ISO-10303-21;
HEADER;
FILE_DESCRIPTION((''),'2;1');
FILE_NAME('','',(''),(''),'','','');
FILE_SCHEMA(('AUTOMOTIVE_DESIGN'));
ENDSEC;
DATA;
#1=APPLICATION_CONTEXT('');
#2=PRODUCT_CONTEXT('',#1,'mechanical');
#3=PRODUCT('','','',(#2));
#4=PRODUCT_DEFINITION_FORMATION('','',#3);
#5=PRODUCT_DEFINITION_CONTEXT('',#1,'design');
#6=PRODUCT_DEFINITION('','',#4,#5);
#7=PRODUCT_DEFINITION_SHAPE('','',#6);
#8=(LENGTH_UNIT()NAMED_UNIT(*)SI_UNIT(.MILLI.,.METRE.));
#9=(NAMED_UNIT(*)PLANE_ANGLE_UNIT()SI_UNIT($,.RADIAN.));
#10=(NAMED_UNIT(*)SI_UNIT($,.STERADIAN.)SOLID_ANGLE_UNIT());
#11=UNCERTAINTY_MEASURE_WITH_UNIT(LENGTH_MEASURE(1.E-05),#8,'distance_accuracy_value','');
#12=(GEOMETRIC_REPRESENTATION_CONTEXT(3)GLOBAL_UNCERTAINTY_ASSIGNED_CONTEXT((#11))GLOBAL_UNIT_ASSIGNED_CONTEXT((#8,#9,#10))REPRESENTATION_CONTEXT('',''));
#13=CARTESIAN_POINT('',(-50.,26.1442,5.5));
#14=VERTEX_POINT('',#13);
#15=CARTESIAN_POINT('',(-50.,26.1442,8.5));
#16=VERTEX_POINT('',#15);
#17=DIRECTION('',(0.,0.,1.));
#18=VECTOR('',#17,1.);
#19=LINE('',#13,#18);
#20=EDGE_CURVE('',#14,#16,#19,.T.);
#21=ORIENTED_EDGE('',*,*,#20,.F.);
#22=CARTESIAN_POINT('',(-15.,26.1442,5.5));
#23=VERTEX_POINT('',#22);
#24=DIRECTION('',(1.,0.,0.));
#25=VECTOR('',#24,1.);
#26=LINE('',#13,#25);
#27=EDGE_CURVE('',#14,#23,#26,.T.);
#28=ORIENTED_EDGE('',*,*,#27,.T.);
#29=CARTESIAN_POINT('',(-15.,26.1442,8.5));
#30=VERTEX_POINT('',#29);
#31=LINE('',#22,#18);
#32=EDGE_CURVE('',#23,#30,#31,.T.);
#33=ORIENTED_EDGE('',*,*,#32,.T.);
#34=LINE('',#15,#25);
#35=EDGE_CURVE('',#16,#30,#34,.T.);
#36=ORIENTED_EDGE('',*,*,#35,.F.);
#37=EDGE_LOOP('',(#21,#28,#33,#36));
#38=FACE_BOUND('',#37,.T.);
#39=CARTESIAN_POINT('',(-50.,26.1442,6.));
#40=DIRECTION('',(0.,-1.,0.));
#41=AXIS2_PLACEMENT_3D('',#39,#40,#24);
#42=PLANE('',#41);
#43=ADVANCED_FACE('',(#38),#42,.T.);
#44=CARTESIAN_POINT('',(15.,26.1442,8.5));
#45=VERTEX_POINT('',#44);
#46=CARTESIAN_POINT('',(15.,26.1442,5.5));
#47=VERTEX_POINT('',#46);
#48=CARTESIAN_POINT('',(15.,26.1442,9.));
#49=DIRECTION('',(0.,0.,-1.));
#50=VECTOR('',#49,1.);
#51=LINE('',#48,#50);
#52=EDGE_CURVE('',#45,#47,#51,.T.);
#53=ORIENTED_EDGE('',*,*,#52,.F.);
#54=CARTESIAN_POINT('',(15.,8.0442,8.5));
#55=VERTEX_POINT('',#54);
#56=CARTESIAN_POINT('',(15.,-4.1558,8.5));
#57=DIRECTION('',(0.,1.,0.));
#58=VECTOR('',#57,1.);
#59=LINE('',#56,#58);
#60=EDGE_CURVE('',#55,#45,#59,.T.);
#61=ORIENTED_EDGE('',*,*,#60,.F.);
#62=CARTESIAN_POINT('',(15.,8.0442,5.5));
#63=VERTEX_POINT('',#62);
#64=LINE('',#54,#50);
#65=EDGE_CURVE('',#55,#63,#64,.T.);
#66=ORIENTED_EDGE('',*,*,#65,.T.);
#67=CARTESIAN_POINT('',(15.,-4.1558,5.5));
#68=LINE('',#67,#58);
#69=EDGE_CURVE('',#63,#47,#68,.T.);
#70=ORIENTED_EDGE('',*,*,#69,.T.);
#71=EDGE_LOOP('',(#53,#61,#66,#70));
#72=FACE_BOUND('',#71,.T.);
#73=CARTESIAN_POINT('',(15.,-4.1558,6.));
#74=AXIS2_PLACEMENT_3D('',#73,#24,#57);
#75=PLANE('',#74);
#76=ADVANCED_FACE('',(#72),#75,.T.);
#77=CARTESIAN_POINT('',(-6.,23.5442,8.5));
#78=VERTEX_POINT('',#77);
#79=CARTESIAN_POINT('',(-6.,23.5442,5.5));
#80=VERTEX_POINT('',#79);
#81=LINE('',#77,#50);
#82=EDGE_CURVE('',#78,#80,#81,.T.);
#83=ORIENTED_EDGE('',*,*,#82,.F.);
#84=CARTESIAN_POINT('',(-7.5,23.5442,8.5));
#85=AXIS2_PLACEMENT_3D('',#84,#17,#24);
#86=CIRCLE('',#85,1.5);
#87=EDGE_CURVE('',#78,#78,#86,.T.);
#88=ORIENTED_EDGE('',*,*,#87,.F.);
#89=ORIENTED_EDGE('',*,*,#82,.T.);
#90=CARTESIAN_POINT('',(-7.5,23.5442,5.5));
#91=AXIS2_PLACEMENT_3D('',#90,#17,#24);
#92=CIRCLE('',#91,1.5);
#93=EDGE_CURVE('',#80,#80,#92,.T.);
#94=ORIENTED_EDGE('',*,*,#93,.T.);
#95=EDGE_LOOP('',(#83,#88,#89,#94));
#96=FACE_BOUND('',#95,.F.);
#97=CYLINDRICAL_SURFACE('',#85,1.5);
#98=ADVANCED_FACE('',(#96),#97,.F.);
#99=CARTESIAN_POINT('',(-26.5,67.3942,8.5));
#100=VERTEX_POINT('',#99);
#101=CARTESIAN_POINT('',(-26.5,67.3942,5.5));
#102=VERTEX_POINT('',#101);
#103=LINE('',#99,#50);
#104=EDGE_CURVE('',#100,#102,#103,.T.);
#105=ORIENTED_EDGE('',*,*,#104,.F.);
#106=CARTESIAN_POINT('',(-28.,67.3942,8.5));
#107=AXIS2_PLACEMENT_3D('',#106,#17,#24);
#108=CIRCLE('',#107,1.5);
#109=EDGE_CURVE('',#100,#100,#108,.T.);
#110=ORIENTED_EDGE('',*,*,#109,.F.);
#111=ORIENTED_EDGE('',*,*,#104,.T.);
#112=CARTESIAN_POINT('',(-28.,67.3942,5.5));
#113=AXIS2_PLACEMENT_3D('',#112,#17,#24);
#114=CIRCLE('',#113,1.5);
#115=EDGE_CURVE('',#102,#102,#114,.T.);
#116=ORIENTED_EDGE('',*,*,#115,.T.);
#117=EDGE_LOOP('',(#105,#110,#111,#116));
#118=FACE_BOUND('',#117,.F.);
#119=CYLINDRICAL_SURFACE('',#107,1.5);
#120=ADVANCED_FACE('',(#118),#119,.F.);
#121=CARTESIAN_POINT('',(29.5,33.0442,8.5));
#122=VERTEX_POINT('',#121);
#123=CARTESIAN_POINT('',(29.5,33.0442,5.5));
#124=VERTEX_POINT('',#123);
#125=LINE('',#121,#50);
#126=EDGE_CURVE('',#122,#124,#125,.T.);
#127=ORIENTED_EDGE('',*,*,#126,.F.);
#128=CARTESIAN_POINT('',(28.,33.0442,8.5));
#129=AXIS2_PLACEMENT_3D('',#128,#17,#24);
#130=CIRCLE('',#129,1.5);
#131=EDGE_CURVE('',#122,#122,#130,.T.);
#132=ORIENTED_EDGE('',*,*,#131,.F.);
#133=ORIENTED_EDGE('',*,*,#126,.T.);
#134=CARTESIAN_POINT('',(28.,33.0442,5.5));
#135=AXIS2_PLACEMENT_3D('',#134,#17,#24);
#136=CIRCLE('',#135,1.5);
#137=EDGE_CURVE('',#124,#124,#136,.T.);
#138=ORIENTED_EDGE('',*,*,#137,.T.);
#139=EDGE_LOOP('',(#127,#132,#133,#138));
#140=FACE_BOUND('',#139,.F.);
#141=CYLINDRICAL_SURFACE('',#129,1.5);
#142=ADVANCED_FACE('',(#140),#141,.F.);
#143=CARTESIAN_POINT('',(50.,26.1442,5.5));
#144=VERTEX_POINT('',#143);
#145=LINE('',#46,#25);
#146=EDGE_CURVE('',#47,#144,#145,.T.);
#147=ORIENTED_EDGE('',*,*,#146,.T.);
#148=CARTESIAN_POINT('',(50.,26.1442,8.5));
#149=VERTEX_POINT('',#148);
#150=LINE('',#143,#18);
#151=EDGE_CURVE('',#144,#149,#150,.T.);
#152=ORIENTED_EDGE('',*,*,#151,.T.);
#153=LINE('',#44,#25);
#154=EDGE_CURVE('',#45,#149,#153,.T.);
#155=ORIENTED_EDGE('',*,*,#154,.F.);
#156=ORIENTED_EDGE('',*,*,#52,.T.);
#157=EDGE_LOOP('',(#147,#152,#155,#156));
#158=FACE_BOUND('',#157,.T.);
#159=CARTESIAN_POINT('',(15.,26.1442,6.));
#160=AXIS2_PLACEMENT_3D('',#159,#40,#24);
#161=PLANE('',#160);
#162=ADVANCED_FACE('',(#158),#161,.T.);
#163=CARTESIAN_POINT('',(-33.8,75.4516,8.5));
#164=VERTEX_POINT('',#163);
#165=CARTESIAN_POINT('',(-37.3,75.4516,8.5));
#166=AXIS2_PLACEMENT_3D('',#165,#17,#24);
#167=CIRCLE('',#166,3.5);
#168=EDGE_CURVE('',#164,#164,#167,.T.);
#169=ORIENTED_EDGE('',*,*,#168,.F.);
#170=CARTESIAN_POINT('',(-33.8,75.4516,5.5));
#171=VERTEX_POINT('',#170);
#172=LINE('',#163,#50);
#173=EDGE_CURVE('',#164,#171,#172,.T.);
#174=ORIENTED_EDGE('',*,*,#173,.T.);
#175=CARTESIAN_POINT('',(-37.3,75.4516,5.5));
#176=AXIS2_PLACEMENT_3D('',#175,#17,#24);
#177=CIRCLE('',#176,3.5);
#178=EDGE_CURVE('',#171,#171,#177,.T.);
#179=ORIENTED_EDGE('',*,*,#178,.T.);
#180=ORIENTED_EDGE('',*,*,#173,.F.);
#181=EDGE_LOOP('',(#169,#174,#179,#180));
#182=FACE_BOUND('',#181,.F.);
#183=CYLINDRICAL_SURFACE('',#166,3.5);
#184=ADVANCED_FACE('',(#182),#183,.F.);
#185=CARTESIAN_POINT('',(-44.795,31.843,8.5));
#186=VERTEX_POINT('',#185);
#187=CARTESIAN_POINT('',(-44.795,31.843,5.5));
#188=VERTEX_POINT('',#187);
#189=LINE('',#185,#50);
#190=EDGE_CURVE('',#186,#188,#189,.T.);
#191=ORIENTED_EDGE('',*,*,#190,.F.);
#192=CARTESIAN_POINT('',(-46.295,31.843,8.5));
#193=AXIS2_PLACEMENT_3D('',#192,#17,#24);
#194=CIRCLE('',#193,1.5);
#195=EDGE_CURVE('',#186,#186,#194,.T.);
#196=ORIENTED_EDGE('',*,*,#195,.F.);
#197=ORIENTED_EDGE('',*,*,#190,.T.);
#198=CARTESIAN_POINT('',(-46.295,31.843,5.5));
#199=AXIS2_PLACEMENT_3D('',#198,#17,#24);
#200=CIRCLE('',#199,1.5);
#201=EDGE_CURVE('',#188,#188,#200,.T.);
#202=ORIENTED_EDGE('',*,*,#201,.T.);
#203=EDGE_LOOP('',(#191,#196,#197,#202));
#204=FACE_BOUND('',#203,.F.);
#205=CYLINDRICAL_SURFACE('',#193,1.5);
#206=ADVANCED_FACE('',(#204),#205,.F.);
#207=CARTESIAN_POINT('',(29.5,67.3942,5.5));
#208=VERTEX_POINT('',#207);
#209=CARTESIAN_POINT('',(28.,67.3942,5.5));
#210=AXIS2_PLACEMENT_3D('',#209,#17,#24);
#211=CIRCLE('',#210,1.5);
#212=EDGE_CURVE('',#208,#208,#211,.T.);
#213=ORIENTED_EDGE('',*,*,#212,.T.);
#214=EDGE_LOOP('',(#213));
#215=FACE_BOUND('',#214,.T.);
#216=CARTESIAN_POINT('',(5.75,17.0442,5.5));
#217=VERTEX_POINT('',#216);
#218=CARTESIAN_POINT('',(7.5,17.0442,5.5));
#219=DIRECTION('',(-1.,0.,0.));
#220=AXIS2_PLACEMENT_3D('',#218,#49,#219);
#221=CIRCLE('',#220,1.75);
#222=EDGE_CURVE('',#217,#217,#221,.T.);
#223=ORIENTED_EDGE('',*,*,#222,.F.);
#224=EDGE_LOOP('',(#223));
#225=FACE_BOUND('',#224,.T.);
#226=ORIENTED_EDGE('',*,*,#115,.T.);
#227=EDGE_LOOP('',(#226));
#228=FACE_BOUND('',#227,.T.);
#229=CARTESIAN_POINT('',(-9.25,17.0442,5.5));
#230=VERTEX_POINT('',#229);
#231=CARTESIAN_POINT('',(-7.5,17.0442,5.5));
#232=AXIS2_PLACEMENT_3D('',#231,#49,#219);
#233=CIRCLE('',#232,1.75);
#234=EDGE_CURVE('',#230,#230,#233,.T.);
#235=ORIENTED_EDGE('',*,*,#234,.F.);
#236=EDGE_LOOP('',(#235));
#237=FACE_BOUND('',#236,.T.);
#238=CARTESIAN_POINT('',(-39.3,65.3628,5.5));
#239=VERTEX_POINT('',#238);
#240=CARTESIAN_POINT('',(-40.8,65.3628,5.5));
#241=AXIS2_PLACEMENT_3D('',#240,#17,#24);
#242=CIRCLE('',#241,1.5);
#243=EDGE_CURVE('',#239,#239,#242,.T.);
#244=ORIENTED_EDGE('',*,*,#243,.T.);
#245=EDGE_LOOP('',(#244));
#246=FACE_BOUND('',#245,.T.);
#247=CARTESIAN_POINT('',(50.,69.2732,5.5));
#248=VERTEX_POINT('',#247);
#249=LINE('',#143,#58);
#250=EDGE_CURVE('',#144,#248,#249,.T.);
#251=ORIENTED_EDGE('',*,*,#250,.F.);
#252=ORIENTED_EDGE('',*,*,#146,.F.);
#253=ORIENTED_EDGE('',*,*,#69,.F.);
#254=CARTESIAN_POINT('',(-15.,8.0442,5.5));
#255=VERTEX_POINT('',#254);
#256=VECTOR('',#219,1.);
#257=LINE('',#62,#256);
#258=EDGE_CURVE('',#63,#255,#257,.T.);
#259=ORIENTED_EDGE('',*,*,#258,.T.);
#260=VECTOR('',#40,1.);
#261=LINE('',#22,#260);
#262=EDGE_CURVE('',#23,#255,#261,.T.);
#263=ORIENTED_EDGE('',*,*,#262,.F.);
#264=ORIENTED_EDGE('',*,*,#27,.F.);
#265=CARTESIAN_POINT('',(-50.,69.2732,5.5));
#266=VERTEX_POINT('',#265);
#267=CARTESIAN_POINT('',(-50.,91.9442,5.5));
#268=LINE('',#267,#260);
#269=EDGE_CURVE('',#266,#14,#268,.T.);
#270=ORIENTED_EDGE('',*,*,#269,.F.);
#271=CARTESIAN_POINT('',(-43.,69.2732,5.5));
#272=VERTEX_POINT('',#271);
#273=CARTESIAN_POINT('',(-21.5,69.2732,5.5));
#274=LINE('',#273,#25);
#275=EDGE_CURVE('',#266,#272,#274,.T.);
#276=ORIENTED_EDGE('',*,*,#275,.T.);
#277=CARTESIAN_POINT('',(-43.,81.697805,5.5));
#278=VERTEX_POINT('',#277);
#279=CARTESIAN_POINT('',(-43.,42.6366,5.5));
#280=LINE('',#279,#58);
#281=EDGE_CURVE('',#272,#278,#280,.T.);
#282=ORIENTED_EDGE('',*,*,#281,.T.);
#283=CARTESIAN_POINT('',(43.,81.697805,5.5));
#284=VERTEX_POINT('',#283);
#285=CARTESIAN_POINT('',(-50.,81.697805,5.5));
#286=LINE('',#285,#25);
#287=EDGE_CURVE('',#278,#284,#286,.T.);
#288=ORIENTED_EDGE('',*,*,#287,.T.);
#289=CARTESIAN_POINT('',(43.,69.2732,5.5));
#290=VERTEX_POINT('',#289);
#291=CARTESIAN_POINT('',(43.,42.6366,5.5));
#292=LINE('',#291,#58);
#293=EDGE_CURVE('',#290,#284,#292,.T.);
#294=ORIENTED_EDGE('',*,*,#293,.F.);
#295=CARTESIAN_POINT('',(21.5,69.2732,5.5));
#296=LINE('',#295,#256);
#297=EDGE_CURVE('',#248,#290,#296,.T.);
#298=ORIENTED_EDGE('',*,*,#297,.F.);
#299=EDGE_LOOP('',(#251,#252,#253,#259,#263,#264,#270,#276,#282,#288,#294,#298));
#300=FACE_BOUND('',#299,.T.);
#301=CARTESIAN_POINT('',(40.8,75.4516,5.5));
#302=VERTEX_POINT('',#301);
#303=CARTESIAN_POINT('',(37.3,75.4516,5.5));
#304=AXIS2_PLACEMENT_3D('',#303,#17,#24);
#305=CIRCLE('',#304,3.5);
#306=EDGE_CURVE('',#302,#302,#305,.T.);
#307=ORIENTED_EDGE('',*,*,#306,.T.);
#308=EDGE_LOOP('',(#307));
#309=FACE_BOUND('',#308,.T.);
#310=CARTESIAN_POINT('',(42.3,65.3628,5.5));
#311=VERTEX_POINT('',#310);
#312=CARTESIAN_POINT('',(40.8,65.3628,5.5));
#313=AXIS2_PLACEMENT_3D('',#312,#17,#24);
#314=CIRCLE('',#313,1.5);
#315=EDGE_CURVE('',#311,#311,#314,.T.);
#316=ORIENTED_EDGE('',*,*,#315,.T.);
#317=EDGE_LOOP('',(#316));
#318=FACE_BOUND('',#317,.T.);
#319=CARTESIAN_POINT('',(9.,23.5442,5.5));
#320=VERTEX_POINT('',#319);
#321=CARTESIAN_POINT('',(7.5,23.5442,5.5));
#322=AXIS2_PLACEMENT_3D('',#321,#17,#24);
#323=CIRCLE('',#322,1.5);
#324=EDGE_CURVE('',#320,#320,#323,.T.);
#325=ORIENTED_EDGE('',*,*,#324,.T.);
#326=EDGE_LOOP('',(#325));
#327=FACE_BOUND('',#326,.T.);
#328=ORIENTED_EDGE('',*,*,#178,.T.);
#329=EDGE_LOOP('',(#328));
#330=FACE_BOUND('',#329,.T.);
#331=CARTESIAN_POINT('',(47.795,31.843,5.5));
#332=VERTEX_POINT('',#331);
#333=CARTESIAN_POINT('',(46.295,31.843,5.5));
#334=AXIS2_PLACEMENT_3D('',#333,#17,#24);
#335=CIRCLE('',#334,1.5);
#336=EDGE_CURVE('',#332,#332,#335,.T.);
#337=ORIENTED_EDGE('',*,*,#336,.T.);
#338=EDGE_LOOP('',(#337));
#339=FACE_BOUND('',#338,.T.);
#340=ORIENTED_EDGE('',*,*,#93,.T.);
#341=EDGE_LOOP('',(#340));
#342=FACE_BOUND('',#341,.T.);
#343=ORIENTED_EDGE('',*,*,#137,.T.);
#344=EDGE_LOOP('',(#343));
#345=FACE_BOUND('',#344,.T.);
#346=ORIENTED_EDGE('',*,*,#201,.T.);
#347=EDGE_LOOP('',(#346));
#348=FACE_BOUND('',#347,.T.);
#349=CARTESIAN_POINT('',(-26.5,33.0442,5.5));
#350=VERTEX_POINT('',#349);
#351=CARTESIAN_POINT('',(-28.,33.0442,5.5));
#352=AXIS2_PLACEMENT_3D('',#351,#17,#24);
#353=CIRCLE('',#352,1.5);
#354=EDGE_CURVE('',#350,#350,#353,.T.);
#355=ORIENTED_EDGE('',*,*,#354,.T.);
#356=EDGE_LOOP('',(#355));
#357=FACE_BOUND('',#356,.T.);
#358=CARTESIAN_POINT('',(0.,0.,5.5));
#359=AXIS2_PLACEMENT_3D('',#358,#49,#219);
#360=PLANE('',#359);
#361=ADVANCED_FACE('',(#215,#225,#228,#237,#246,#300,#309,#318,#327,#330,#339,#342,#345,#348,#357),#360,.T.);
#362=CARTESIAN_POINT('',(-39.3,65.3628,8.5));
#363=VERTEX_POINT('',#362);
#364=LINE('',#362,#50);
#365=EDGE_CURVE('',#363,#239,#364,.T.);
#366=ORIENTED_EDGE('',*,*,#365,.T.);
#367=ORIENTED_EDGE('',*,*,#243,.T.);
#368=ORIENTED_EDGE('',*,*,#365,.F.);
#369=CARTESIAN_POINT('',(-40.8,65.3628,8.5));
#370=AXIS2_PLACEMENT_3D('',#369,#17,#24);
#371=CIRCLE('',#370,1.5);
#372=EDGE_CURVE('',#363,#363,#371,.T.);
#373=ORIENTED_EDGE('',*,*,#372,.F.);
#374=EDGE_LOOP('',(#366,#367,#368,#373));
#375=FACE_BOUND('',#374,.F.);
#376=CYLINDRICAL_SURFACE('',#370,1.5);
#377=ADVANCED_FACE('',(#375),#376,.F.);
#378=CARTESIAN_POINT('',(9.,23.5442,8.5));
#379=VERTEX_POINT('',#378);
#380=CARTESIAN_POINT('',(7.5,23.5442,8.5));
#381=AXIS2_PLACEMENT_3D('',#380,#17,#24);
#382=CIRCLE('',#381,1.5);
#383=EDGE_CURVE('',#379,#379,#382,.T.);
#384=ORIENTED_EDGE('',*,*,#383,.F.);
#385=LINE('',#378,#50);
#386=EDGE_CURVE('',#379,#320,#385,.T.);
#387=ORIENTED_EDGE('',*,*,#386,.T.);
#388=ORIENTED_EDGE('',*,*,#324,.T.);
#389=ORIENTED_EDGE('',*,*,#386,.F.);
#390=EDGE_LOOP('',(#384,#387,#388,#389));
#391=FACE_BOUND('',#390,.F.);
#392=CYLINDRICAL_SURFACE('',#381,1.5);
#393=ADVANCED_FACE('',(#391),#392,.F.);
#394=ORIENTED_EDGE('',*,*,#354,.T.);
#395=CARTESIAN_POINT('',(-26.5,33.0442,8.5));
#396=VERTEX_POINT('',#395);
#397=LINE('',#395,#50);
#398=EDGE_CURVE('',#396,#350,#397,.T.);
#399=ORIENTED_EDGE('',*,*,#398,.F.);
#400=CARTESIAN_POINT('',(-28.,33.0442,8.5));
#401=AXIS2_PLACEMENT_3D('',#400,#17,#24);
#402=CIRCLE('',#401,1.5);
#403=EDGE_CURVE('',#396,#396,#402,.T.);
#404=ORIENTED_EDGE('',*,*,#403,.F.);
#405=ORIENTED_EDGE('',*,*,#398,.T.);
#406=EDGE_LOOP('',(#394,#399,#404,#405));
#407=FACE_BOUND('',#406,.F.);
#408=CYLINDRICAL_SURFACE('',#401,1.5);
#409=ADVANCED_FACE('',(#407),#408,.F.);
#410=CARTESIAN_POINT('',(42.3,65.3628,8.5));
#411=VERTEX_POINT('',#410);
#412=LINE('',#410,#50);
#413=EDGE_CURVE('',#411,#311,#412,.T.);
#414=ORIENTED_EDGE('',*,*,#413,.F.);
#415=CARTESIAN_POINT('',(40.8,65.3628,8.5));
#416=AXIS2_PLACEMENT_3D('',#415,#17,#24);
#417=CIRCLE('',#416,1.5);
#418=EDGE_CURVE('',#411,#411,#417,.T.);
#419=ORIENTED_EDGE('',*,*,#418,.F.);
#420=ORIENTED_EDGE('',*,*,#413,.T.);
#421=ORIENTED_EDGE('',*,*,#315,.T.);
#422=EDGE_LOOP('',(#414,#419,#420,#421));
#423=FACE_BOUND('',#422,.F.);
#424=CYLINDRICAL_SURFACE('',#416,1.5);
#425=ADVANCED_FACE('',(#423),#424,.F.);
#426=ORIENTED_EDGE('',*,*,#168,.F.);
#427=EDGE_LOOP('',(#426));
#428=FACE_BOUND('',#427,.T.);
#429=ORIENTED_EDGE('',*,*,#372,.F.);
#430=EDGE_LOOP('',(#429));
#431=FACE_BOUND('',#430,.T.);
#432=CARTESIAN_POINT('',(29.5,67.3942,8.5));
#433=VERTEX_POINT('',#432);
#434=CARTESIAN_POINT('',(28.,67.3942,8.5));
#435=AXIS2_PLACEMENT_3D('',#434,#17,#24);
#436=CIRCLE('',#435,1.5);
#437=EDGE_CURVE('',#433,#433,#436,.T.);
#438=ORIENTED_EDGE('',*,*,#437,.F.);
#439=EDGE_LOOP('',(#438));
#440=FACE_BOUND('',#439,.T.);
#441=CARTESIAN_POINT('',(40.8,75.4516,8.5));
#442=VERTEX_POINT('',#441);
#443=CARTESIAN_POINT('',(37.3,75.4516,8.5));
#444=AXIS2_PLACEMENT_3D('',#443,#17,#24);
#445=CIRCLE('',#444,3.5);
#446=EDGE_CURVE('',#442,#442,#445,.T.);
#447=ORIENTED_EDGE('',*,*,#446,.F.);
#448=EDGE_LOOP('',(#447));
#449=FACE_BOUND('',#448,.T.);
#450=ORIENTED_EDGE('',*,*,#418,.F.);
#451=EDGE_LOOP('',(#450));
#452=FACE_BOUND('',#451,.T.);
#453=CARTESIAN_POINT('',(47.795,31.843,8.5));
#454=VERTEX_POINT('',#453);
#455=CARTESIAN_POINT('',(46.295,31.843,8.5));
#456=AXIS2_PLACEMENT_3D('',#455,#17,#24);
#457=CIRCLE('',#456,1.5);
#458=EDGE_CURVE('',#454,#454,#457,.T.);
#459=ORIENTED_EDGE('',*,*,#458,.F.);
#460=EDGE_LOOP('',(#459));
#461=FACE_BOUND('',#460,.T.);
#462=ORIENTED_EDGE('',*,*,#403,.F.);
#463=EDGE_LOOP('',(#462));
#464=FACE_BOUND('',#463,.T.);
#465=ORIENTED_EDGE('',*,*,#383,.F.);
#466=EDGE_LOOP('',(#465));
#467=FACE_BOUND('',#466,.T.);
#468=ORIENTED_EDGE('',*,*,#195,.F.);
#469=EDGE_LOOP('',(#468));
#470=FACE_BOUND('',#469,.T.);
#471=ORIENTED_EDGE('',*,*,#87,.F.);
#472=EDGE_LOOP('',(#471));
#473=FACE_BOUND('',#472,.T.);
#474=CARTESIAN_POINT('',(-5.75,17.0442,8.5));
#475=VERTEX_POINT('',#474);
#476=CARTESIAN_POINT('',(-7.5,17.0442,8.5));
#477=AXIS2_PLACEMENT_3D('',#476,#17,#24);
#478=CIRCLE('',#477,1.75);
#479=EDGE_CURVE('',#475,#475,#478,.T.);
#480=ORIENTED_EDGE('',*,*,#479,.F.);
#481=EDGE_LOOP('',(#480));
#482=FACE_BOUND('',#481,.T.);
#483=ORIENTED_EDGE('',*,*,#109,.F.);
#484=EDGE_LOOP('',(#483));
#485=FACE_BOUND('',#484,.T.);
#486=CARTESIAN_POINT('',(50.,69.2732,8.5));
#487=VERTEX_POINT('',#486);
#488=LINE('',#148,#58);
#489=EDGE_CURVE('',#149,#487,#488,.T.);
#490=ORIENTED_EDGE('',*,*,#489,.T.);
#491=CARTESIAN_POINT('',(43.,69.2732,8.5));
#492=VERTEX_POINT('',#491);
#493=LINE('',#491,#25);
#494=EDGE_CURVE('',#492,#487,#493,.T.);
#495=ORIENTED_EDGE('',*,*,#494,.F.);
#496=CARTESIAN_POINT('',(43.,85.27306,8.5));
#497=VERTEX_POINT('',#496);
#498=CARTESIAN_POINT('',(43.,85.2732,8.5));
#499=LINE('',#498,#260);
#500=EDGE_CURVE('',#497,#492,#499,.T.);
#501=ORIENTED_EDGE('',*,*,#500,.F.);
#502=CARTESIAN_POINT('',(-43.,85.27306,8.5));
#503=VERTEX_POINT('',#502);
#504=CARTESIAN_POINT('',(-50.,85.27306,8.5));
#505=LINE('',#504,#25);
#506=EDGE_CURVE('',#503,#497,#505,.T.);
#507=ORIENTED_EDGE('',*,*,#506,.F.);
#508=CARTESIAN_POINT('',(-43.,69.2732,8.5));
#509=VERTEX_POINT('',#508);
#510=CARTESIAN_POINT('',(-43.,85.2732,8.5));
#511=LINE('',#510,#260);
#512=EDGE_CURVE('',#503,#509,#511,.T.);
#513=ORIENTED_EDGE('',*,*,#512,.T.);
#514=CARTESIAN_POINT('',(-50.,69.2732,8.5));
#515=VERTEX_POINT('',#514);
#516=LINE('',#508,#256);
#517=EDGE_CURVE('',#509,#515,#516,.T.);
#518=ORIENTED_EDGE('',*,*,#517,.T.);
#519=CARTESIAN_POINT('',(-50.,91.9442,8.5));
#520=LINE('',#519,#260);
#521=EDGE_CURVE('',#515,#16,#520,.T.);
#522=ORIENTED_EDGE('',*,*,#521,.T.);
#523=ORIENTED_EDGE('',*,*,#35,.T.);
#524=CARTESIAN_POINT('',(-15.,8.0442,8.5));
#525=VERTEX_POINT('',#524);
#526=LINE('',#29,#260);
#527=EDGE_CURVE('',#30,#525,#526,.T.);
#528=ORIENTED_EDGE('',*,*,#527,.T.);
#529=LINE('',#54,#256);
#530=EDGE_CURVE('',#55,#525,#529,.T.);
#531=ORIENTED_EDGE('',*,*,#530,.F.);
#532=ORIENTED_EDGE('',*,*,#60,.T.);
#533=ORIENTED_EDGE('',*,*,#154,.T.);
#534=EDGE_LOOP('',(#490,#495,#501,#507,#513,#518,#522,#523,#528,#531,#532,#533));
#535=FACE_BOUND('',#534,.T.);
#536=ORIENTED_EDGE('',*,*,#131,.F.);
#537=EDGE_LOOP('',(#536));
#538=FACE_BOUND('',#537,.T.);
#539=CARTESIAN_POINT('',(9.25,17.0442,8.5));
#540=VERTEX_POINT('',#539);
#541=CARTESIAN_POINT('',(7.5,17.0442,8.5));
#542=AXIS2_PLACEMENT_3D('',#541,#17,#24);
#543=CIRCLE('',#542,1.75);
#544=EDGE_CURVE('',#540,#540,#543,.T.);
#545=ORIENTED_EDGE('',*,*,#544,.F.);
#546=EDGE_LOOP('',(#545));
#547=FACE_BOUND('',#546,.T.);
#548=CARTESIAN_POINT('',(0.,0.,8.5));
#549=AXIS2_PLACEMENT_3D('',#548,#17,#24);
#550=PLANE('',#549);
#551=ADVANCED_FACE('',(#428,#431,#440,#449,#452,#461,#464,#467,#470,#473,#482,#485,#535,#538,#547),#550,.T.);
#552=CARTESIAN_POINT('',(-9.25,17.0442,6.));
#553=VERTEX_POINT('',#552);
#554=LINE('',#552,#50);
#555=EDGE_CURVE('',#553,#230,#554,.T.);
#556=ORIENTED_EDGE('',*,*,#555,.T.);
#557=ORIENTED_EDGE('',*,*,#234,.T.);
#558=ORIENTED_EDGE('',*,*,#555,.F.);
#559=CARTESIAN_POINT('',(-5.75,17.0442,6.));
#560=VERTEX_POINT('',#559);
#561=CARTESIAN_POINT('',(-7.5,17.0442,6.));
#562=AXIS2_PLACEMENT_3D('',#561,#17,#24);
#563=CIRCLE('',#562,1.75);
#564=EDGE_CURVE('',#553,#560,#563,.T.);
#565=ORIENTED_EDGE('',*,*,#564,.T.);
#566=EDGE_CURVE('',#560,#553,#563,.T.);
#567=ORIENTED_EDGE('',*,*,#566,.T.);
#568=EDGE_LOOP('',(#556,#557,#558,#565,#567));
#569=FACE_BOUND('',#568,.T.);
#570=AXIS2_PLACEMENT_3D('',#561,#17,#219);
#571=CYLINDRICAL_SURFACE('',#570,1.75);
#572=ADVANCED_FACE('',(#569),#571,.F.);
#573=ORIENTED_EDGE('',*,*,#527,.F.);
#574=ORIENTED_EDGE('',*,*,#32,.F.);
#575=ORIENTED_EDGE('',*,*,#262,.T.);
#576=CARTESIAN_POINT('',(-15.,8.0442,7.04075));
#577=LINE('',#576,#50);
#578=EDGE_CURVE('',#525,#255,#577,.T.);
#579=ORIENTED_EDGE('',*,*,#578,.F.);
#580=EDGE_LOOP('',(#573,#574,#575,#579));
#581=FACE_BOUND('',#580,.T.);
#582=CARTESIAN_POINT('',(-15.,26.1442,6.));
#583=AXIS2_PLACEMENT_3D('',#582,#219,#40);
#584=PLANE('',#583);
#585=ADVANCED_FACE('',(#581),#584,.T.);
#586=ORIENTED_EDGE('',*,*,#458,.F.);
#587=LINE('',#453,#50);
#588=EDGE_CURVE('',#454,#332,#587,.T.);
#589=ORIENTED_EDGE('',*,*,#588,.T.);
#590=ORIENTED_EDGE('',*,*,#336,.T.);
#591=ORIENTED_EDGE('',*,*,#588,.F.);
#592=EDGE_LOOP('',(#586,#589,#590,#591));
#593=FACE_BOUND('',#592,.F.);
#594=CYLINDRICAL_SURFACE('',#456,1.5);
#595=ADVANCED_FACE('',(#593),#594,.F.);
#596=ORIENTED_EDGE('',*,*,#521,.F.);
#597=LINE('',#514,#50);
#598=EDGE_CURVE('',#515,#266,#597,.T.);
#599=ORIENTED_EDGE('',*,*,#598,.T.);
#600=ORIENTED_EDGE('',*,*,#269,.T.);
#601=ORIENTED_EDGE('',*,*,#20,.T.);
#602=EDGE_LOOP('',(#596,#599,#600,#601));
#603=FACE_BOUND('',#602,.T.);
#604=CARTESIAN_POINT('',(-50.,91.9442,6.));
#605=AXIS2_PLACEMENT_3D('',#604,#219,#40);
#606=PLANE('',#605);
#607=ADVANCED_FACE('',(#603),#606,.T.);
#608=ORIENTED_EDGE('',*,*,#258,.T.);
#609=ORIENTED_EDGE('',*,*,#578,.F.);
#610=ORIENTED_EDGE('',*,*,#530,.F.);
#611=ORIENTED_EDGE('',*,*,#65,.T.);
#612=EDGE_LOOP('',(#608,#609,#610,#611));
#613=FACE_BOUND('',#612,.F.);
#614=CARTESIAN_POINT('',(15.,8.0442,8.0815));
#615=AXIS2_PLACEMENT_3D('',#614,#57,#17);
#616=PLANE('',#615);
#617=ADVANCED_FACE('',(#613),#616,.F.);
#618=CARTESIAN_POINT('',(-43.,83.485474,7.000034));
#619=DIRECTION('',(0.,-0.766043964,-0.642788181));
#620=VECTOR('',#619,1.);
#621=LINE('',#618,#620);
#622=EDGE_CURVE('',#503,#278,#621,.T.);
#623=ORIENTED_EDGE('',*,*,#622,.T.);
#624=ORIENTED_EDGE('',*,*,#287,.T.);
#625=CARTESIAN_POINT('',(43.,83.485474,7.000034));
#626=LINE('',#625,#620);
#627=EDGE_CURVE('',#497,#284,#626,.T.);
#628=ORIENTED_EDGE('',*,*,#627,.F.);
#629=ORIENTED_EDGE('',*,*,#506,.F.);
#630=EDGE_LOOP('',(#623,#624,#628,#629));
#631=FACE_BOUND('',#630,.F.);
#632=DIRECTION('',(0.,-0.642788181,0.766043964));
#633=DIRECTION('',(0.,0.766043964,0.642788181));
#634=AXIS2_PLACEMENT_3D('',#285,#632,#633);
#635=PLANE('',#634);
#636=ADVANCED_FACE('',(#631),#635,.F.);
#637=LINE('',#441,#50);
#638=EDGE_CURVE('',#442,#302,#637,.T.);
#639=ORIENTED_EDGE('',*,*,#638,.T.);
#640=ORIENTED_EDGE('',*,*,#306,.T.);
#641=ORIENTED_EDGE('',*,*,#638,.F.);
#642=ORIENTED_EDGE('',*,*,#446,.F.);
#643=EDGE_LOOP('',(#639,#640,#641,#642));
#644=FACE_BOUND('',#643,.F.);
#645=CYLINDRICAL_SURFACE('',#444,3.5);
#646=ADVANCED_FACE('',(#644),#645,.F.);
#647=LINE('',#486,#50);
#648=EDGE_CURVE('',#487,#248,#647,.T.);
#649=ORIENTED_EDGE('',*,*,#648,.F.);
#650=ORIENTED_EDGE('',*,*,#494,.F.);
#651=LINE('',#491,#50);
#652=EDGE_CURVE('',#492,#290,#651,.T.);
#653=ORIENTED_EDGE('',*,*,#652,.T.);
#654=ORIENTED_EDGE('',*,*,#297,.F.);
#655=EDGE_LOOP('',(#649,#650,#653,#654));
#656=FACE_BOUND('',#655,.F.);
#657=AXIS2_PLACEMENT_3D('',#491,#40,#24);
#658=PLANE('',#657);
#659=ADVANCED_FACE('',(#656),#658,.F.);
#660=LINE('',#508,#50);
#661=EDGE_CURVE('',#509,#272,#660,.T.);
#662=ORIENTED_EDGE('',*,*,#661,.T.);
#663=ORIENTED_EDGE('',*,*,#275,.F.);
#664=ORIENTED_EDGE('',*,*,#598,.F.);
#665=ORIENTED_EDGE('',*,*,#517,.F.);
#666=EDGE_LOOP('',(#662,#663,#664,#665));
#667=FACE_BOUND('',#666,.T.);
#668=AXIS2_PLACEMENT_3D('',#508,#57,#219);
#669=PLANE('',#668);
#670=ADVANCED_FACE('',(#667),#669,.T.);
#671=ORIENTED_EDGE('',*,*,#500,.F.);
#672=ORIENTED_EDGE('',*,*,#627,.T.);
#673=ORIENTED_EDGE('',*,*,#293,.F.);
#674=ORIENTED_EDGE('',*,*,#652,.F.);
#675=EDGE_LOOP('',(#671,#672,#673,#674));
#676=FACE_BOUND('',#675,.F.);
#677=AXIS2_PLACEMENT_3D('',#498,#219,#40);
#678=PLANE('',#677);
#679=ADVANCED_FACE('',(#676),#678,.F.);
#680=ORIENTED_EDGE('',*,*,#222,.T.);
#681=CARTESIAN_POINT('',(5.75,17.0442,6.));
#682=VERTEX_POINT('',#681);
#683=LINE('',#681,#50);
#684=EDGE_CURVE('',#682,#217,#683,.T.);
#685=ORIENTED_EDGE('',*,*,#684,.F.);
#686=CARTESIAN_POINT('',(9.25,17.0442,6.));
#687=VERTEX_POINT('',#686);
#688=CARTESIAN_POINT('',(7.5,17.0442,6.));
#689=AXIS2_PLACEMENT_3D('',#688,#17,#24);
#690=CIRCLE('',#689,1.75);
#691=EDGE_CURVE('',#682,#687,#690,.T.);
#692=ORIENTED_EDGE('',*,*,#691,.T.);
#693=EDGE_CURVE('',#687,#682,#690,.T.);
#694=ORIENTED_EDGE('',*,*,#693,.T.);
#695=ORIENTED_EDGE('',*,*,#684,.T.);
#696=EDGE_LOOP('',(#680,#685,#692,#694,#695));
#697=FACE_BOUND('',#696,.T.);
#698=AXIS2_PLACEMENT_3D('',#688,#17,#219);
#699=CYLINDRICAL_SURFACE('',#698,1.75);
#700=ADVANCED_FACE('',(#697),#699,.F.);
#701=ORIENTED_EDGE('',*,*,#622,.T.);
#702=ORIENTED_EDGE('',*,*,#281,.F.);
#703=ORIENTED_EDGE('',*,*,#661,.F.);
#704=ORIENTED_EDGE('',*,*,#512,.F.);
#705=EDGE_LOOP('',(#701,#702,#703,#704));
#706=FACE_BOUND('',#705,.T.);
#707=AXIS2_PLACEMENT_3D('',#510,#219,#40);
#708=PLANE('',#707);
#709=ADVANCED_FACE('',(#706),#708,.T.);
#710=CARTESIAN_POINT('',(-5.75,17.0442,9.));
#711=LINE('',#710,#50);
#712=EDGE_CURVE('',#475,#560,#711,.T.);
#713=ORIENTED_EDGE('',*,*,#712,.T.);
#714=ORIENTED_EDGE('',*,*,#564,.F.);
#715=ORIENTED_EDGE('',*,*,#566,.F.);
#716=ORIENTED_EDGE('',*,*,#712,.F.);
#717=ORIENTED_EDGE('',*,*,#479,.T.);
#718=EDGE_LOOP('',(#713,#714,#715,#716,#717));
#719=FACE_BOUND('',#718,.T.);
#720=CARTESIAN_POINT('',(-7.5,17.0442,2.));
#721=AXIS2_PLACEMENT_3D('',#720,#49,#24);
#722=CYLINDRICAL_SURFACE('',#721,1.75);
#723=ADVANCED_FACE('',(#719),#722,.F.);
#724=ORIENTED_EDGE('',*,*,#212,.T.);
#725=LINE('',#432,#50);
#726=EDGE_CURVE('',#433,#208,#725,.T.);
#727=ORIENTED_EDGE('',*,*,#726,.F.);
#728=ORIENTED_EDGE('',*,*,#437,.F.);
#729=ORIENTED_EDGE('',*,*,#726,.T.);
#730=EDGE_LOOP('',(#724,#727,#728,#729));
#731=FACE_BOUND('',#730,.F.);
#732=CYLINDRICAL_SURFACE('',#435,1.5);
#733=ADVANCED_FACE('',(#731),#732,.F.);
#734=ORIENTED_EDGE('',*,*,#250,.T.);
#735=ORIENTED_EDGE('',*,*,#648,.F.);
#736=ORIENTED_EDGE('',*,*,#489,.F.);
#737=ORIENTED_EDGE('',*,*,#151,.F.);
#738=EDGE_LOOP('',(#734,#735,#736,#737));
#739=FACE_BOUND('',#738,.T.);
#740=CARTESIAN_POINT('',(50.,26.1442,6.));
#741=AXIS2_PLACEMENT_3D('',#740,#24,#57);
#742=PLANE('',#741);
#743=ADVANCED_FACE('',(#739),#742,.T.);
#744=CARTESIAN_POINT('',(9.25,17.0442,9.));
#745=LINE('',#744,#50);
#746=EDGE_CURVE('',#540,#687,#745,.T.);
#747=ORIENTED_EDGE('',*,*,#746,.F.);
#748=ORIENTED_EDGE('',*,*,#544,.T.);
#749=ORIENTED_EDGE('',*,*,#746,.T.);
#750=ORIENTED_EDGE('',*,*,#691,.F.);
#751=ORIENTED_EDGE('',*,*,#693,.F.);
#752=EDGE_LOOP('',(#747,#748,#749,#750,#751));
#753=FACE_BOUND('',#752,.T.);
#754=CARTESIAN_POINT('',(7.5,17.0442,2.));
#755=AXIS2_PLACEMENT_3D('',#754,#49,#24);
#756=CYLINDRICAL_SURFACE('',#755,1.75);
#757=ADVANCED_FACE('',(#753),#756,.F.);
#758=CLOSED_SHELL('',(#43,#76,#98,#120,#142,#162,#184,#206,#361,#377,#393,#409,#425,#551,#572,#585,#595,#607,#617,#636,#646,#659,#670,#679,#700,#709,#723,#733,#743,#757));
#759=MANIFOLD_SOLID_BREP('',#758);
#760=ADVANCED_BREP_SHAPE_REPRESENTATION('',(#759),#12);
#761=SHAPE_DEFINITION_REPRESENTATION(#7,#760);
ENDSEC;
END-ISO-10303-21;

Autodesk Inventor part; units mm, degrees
ref_plane "YZ Plane" through (0, 0, 0) normal (1, 0, 0) x (0, 1, 0)
ref_plane "XZ Plane" through (0, 0, 0) normal (0, 1, 0) x (-1, 0, 0)
sketch "Sketch1" plane through (0, 0, 0) normal (0, 0, 1) x (1, 0, 0)
  line L0 (15, -2.1558) -> (15, 4.1558) projected
  line L1 (15, 4.1558) -> (-15, 4.1558) projected
  line L2 (-15, 4.1558) -> (-15, -2.1558) projected
  arc A0 (-15, -2.1558) -> (-13, -4.1558) centre (-13, -2.1558) ccw projected
  line L3 (-13, -4.1558) -> (13, -4.1558) projected
  arc A1 (13, -4.1558) -> (15, -2.1558) centre (13, -2.1558) ccw projected
  circle A2 centre (7.5, -0.9558) radius 1.75 projected
  circle A3 centre (-7.5, -0.9558) radius 1.75 projected
  circle A4 centre (7.5, 17.0442) radius 1.75 projected
  line L4 (4.1641, 20.2442) -> (4.1641, 11.9327) projected
  line L5 (4.1641, 11.9327) -> (15, 11.9327) projected
  line L6 (15, 11.9327) -> (15, 18.2442) projected
  arc A5 (15, 18.2442) -> (13, 20.2442) centre (13, 18.2442) ccw projected
  line L7 (13, 20.2442) -> (4.1641, 20.2442) projected
  line L8 (-4.1641, 11.9327) -> (-4.1641, 20.2442) projected
  line L9 (-4.1641, 20.2442) -> (-13, 20.2442) projected
  arc A6 (-13, 20.2442) -> (-15, 18.2442) centre (-13, 18.2442) ccw projected
  line L10 (-15, 18.2442) -> (-15, 11.9327) projected
  line L11 (-15, 11.9327) -> (-4.1641, 11.9327) projected
  circle A7 centre (-7.5, 17.0442) radius 1.75 projected
  line L12 (48, -8.0558) -> (17.2, -8.0558)
  line L13 (-48, -8.0558) -> (-17.2, -8.0558)
  line L14 (48, -8.0558) -> (50, -8.0558)
  line L15 (50, -8.0558) -> (50, 42.8217)
  line L16 (-48, -8.0558) -> (-50, -8.0558)
  line L17 (-50, -8.0558) -> (-50, 42.8217)
  line L18 (50, -8.0558) -> (-50, -8.0558)
  line L19 (-50, -8.0558) -> (-50, 91.9442)
  line L20 (-50, 91.9442) -> (50, 91.9442)
  line L21 (50, 91.9442) -> (50, -8.0558)
  line L22 (48, 24.1442) -> (17.2, 24.1442)
  line L23 (-48, 24.1442) -> (-17.2, 24.1442)
  line L24 (48, 24.1442) -> (17.2, 24.1442)
  line L25 (17.2, 24.1442) -> (17.2, 26.1442)
  line L26 (17.2, 26.1442) -> (48, 26.1442)
  line L27 (48, 26.1442) -> (48, 24.1442)
  line L28 (-48, 24.1442) -> (-17.2, 24.1442)
  line L29 (-17.2, 24.1442) -> (-17.2, 26.1442)
  line L30 (-17.2, 26.1442) -> (-48, 26.1442)
  line L31 (-48, 26.1442) -> (-48, 24.1442)
  line L32 (-15, -4.1558) -> (15, -4.1558)
  line L33 (15, -4.1558) -> (15, 49.5694)
  line L34 (15, 49.5694) -> (-15, 49.5694)
  line L35 (-15, 49.5694) -> (-15, -4.1558)
  line L36 (-50, 91.9442) -> (50, 91.9442)
  line L37 (50, 91.9442) -> (50, 26.1442)
  line L38 (50, 26.1442) -> (-50, 26.1442)
  line L39 (-50, 26.1442) -> (-50, 91.9442)
  point P0 (0, 0)
  point P1 (15, 26.1442)
  point P2 (-15, 26.1442)
  dimension "d2" = 100
  dimension "d3" = 2
  dimension "d4" = 2
extrude "Extrusion1" add sketch "Sketch1" along normal blind 2 contours A1 L3 A0 L2 L1 L0 | L33 L32 A1 | L1 L35 L11 L8 L9 A6 L38 L33 A5 L7 L4 L5 | L5 L4 L7 A5 L6 | L32 L35 A0 | L10 A6 L9 L8 L11 | L38 L35 L34 L33 | L33 L34 L35 L38 L30 L17 L19 L20 L21 L15 L26
sketch "Sketch2" plane through (0, 0, 2) normal (0, 0, 1) x (1, 0, 0)
  line L0 (15, -4.1558) -> (15, 26.1442) projected
  line L1 (15, 26.1442) -> (50, 26.1442) projected
  line L2 (50, 26.1442) -> (50, 91.9442) projected
  line L3 (50, 91.9442) -> (-50, 91.9442) projected
  line L4 (-50, 91.9442) -> (-50, 26.1442) projected
  line L5 (-50, 26.1442) -> (-15, 26.1442) projected
  line L6 (-15, 26.1442) -> (-15, -4.1558) projected
  line L7 (-15, -4.1558) -> (15, -4.1558) projected
  circle A0 centre (7.5, -0.9558) radius 1.75 projected
  circle A1 centre (-7.5, -0.9558) radius 1.75 projected
  circle A2 centre (7.5, 17.0442) radius 1.75 projected
  circle A3 centre (-7.5, 17.0442) radius 1.75 projected
  point P0 (0, 0)
extrude "Extrusion2" add sketch "Sketch2" along normal blind 7
extrude "Extrusion3" cut sketch "Sketch2" against normal blind 7
extrude "Extrusion4" cut sketch "Sketch2" along normal blind 4
sketch "Sketch3" plane through (0, 0, 6) normal (0, 0, -1) x (-1, 0, 0)
  line L0 (-15, 26.1442) -> (-50, 26.1442) projected
  line L1 (-15, -4.1558) -> (-15, 26.1442) projected
  line L2 (15, -4.1558) -> (-15, -4.1558) projected
  line L3 (15, 26.1442) -> (15, -4.1558) projected
  line L4 (50, 26.1442) -> (15, 26.1442) projected
  line L5 (50, 91.9442) -> (50, 26.1442) projected
  line L6 (-50, 91.9442) -> (50, 91.9442) projected
  line L7 (-50, 26.1442) -> (-50, 91.9442) projected
  circle A0 centre (-7.5, -0.9558) radius 1.75 projected
  circle A1 centre (7.5, -0.9558) radius 1.75 projected
  circle A2 centre (-7.5, 17.0442) radius 1.75 projected
  circle A3 centre (7.5, 17.0442) radius 1.75 projected
  point P0 (0, 0)
extrude "Extrusion5" add sketch "Sketch3" along normal blind 0.5
sketch "Sketch4" plane through (0, 0, 9) normal (0, 0, 1) x (1, 0, 0)
  line L0 (15, 26.1442) -> (50, 26.1442) projected
  line L1 (50, 26.1442) -> (50, 91.9442) projected
  line L2 (50, 91.9442) -> (-50, 91.9442) projected
  line L3 (-50, 91.9442) -> (-50, 26.1442) projected
  line L4 (-50, 26.1442) -> (-15, 26.1442) projected
  line L5 (-15, 26.1442) -> (-15, -4.1558) projected
  line L6 (-15, -4.1558) -> (15, -4.1558) projected
  line L7 (15, -4.1558) -> (15, 26.1442) projected
  circle A0 centre (7.5, -0.9558) radius 1.75 projected
  circle A1 centre (-7.5, -0.9558) radius 1.75 projected
  circle A2 centre (7.5, 17.0442) radius 1.75 projected
  circle A3 centre (-7.5, 17.0442) radius 1.75 projected
  point P0 (0, 0)
extrude "Extrusion6" cut sketch "Sketch4" against normal blind 0.5
sketch "Sketch5" plane through (0, 0, 5.5) normal (0, 0, -1) x (-1, 0, 0)
  line L0 (-15, -4.1558) -> (15, -4.1558) projected
  line L1 (15, -4.1558) -> (15, 26.1442) projected
  line L2 (15, 26.1442) -> (50, 26.1442) projected
  line L3 (50, 26.1442) -> (50, 91.9442) projected
  line L4 (50, 91.9442) -> (-50, 91.9442) projected
  line L5 (-50, 91.9442) -> (-50, 26.1442) projected
  line L6 (-50, 26.1442) -> (-15, 26.1442) projected
  line L7 (-15, 26.1442) -> (-15, -4.1558) projected
  circle A0 centre (7.5, 17.0442) radius 1.75 projected
  circle A1 centre (-7.5, 17.0442) radius 1.75 projected
  circle A2 centre (7.5, -0.9558) radius 1.75 projected
  circle A3 centre (-7.5, -0.9558) radius 1.75 projected
  circle A4 centre (7.5, -0.9558) radius 1.75 projected
  circle A5 centre (7.5, 17.0442) radius 1.75 projected
  line L8 (7.5, -0.9558) -> (7.5, 17.0442)
  line L9 (7.5, 17.0442) -> (7.5, 35.0442)
  line L10 (7.5, 17.0442) -> (-7.5, 17.0442)
  line L11 (-7.5, 17.0442) -> (-7.5, 35.0442)
  line L12 (-7.5, 35.0442) -> (7.5, 35.0442)
  line L13 (7.5, 35.0442) -> (7.5, 17.0442)
  circle A6 centre (7.5, 35.0442) radius 1.5
  circle A7 centre (-7.5, 35.0442) radius 1.5
  point P0 (0, 0)
  dimension "d20" = 18
  dimension "d21" = 3
  dimension "d22" = 3
extrude "Extrusion7" cut sketch "Sketch5" against normal through all contours A6 L12 L9 | L9 L12 A6 | A7 L11 L12 | L12 L11 A7
sketch "Sketch6" plane through (15, -4.1558, 5.5) normal (1, 0, 0) x (0, 0, -1)
  line L0 (-3, 30.3) -> (-3, 0) projected
  line L1 (0, 0) -> (-3, 0) projected
  line L2 (0, 30.3) -> (0, 0) projected
  line L3 (0, 30.3) -> (-3, 30.3) projected
  circle A0 centre (11.4185, 12.2) radius 16.1 projected
  line L4 (11.4185, 12.2) -> (-2.2801, 12.2)
  line L5 (-2.2801, 12.2) -> (-8.0401, 12.2)
  circle A1 centre (11.4185, 12.2) radius 14
  point P0 (5.5, 4.1558)
  point P1 (0, 12.2)
  point P2 (-3, 12.2)
extrude "Extrusion8" cut sketch "Sketch6" against normal through all contours L5 A1 L2 A0 L0 | A0 L2 L1 L0 | L5 L4 L2 A1 picked at (-1.4712, 5.246) picked at (-0.4712, 7.6339)
sketch "Sketch7" plane through (-50, 26.1442, 5.5) normal (-1, 0, 0) x (0, 0, 1)
  line L0 (3, 0) -> (3, 65.8) projected
  line L1 (0, 65.8) -> (3, 65.8) projected
  line L2 (0, 0) -> (0, 65.8) projected
  line L3 (0, 0) -> (3, 0) projected
  circle A0 centre (-10.971, -17.5667) radius 16.1 projected
  line L4 (-10.971, -33.6667) -> (-10.971, 66.3333)
  line L5 (5.129, -17.5667) -> (5.129, 92.1533)
  line L6 (-10.971, 66.3333) -> (5.129, 66.3333)
  line L7 (5.129, 66.3333) -> (-7.5989, 53.6054)
  line L8 (-7.5989, 53.6054) -> (-5.4776, 51.4841)
  line L9 (-5.4776, 51.4841) -> (5.129, 62.0907)
  point P0 (-5.5, -26.1442)
  point P1 (0, 56.9617)
  point P2 (3, 59.9617)
  dimension "d27" = 18
  dimension "d28" = 45
  dimension "d29" = 3
extrude "Extrusion9" cut sketch "Sketch7" against normal through all contours L9 L2 L7 L0 | L7 L2 L1 L0
sketch "Sketch9" plane through (-50, 26.1442, 5.5) normal (-1, 0, 0) x (0, 0, 1)
  line L0 (3, 59.9617) -> (0, 56.9617) projected
  line L1 (0, 0) -> (0, 56.9617) projected
  line L2 (0, 0) -> (3, 0) projected
  line L3 (3, 0) -> (3, 59.9617) projected
  circle A0 centre (-10.971, -17.5667) radius 16.1 projected
  line L4 (5.129, -17.5667) -> (5.129, 67.8792)
  line L5 (-10.971, -33.6667) -> (-10.971, 66.3333)
  line L6 (-10.971, 66.3333) -> (9.3716, 66.3333)
  line L7 (5.129, 66.3333) -> (-14.1546, 43.352)
  line L8 (-14.1546, 43.352) -> (-11.8565, 41.4236)
  line L9 (-11.8565, 41.4236) -> (5.129, 61.6661)
  point P0 (-5.5, -26.1442)
  point P1 (0, 55.5537)
  point P2 (3, 59.1289)
  dimension "d37" = 100
  dimension "d38" = 30
  dimension "d39" = 40
  dimension "d40" = 3
extrude "Extrusion10" cut sketch "Sketch9" against normal through all contours L3 L9 L1 L0
sketch "Sketch10" plane through (0, 0, 8.5) normal (0, 0, 1) x (1, 0, 0)
  line L0 (2.5, -4.1558) -> (-2.5, -4.1558) projected
  line L1 (-2.5, -4.1558) -> (-2.5, 40.0442) projected
  line L2 (-2.5, 40.0442) -> (-18, 40.0442) projected
  line L3 (-18, 40.0442) -> (-18, 28.8774) projected
  line L4 (-18, 28.8774) -> (-41, 28.8774) projected
  line L5 (-41, 28.8774) -> (-41, 59.7543) projected
  line L6 (-41, 59.7543) -> (-35.2556, 59.7543) projected
  line L7 (-35.2556, 59.7543) -> (-35.2556, 69.9737) projected
  line L8 (-35.2556, 69.9737) -> (-41, 69.9737) projected
  line L9 (-41, 69.9737) -> (-41, 78.0016) projected
  line L10 (-41, 78.0016) -> (-28, 78.0016) projected
  line L11 (-28, 78.0016) -> (-28, 69.9737) projected
  line L12 (-28, 69.9737) -> (28, 69.9737) projected
  line L13 (28, 69.9737) -> (28, 78.0016) projected
  line L14 (28, 78.0016) -> (41, 78.0016) projected
  line L15 (41, 78.0016) -> (41, 69.9737) projected
  line L16 (41, 69.9737) -> (35.2556, 69.9737) projected
  line L17 (35.2556, 69.9737) -> (35.2556, 59.7543) projected
  line L18 (35.2556, 59.7543) -> (41, 59.7543) projected
  line L19 (41, 59.7543) -> (41, 28.8774) projected
  line L20 (41, 28.8774) -> (18, 28.8774) projected
  line L21 (18, 28.8774) -> (18, 40.0442) projected
  line L22 (18, 40.0442) -> (2.5, 40.0442) projected
  line L23 (2.5, 40.0442) -> (2.5, -4.1558) projected
  line L24 (14.3503, 58.5833) -> (3.9031, 60.8951) projected
  line L25 (3.9031, 60.8951) -> (3.5574, 59.3328) projected
  line L26 (3.5574, 59.3328) -> (14.0047, 57.0211) projected
  line L27 (14.0047, 57.0211) -> (14.3503, 58.5833) projected
  line L28 (1.2105, 60.9065) -> (-9.235, 58.5864) projected
  line L29 (-9.235, 58.5864) -> (-8.888, 57.0245) projected
  line L30 (-8.888, 57.0245) -> (1.5574, 59.3445) projected
  line L31 (1.5574, 59.3445) -> (1.2105, 60.9065) projected
  line L32 (-31.4357, 55.8588) -> (-32.5559, 57.0012) projected
  line L33 (-32.5559, 57.0012) -> (-40.1958, 49.5097) projected
  line L34 (-40.1958, 49.5097) -> (-39.0755, 48.3673) projected
  line L35 (-39.0755, 48.3673) -> (-31.4357, 55.8588) projected
  line L36 (38.6369, 43.8085) -> (39.7739, 44.9342) projected
  line L37 (39.7739, 44.9342) -> (32.2458, 52.538) projected
  line L38 (32.2458, 52.538) -> (31.1088, 51.4123) projected
  line L39 (31.1088, 51.4123) -> (38.6369, 43.8085) projected
  line L40 (-34.6166, 43.8763) -> (-36.1788, 44.2217) projected
  line L41 (-36.1788, 44.2217) -> (-38.4885, 33.774) projected
  line L42 (-38.4885, 33.774) -> (-36.9263, 33.4286) projected
  line L43 (-36.9263, 33.4286) -> (-34.6166, 43.8763) projected
  line L44 (39.2388, 29.2757) -> (40.8006, 29.6229) projected
  line L45 (40.8006, 29.6229) -> (38.4785, 40.0679) projected
  line L46 (38.4785, 40.0679) -> (36.9167, 39.7207) projected
  line L47 (36.9167, 39.7207) -> (39.2388, 29.2757) projected
  circle A0 centre (7.5, 35.0442) radius 1.5 projected
  circle A1 centre (-7.5, 35.0442) radius 1.5 projected
  circle A2 centre (7.5, 35.0442) radius 1.5 projected
  line L48 (7.5, 35.0442) -> (28.8902, 35.0442)
  line L49 (0, -4.1558) -> (0, 44.2217)
  line L50 (18, 35.0442) -> (21.5, 35.0442)
  circle A3 centre (21.5, 35.0442) radius 1.5
  circle A4 centre (-21.5, 35.0442) radius 1.5
  point P0 (0, 0)
  dimension "d43" = 3.5
  dimension "d44" = 3
extrude "Extrusion11" cut sketch "Sketch10" against normal through all contours A3 L48 | L48 A3 | A4
sketch "Sketch11" plane through (0, 0, 8.5) normal (0, 0, 1) x (1, 0, 0)
  line L0 (-39.4778, 77.0915) -> (-36.7778, 77.0915) projected
  line L1 (-36.7778, 77.0915) -> (-36.7778, 73.6915) projected
  line L2 (-36.7778, 73.6915) -> (-39.4778, 73.6915) projected
  line L3 (-39.4778, 73.6915) -> (-39.4778, 77.0915) projected
  line L4 (36.7778, 73.6915) -> (36.7778, 77.0915) projected
  line L5 (39.4778, 73.6915) -> (36.7778, 73.6915) projected
  line L6 (39.4778, 77.0915) -> (39.4778, 73.6915) projected
  line L7 (36.7778, 77.0915) -> (39.4778, 77.0915) projected
  circle A0 centre (-21.5, 35.0442) radius 1.5 projected
  circle A1 centre (21.5, 35.0442) radius 1.5 projected
  circle A2 centre (-7.5, 17.0442) radius 1.75 projected
  circle A3 centre (7.5, 17.0442) radius 1.75 projected
  circle A4 centre (-7.5, 35.0442) radius 1.5 projected
  circle A5 centre (7.5, 35.0442) radius 1.5 projected
  line L8 (50, 85.2732) -> (-50, 85.2732) projected
  line L9 (-50, 26.1442) -> (-50, 85.2732) projected
  line L10 (-15, 26.1442) -> (-50, 26.1442) projected
  line L11 (-15, 8.0442) -> (-15, 26.1442) projected
  line L12 (-15, 8.0442) -> (15, 8.0442) projected
  line L13 (15, 26.1442) -> (15, 8.0442) projected
  line L14 (50, 26.1442) -> (15, 26.1442) projected
  line L15 (50, 85.2732) -> (50, 26.1442) projected
  line L16 (50, 85.2732) -> (-50, 85.2732) projected
  line L17 (0, 85.2732) -> (0, 72.794)
  circle A6 centre (-38.1278, 75.3915) radius 3
  circle A7 centre (38.1278, 75.3915) radius 3
  point P0 (0, 0)
  dimension "d47" = 6
extrude "Extrusion12" cut sketch "Sketch11" against normal blind 10 contours L0 L1 L2 L3 | L4 L7 L6 L5 | A6 | A7
sketch "Sketch12" plane through (0, 0, 8.5) normal (0, 0, 1) x (1, 0, 0)
  circle A0 centre (38.1278, 75.3915) radius 3 projected
  circle A1 centre (-38.1278, 75.3915) radius 3 projected
  circle A2 centre (-21.5, 35.0442) radius 1.5 projected
  circle A3 centre (21.5, 35.0442) radius 1.5 projected
  circle A4 centre (-7.5, 17.0442) radius 1.75 projected
  circle A5 centre (7.5, 17.0442) radius 1.75 projected
  circle A6 centre (-7.5, 35.0442) radius 1.5 projected
  circle A7 centre (7.5, 35.0442) radius 1.5 projected
  line L0 (50, 85.2732) -> (-50, 85.2732) projected
  line L1 (-50, 26.1442) -> (-50, 85.2732) projected
  line L2 (-15, 26.1442) -> (-50, 26.1442) projected
  line L3 (-15, 8.0442) -> (-15, 26.1442) projected
  line L4 (-15, 8.0442) -> (15, 8.0442) projected
  line L5 (15, 26.1442) -> (15, 8.0442) projected
  line L6 (50, 26.1442) -> (15, 26.1442) projected
  line L7 (50, 85.2732) -> (50, 26.1442) projected
  circle A8 centre (-46.295, 31.843) radius 1.5
  circle A9 centre (-40.8, 65.3628) radius 1.5
  circle A10 centre (40.8, 65.3628) radius 1.5
  circle A11 centre (46.295, 31.843) radius 1.5
  circle A12 centre (-28, 67.3942) radius 1.5
  circle A13 centre (-28, 33.0442) radius 1.5
  circle A14 centre (28, 33.0442) radius 1.5
  circle A15 centre (28, 67.3942) radius 1.5
  point P0 (0, 0)
extrude "Extrusion13" cut sketch "Sketch12" against normal blind 10 contours A8 | A9 | A10 | A11 | A12 | A13 | A14 | A15
ref_plane "Work Plane1" through (36.05, 26.643, 5.5) normal (0, 0, 1) x (1, 0, 0)
extrude "Extrusion14" add sketch "Sketch12" against normal up to surface (3 mm away) contours A2 | A3 | A6 | A7
sketch "Sketch13" plane through (0, 0, 8.5) normal (0, 0, 1) x (1, 0, 0)
  circle A0 centre (7.5, 23.5442) radius 1.5
  circle A1 centre (-7.5, 23.5442) radius 1.5
  point P0 (0, 0)
extrude "Extrusion15" cut sketch "Sketch13" against normal blind 10
sketch "Sketch14" plane through (0, 0, 8.5) normal (0, 0, 1) x (1, 0, 0)
  circle A0 centre (-7.5, 23.5442) radius 1.5 projected
  circle A1 centre (7.5, 23.5442) radius 1.5 projected
  circle A2 centre (28, 67.3942) radius 1.5 projected
  circle A3 centre (-28, 33.0442) radius 1.5 projected
  circle A4 centre (28, 33.0442) radius 1.5 projected
  circle A5 centre (-28, 67.3942) radius 1.5 projected
  circle A6 centre (40.8, 65.3628) radius 1.5 projected
  circle A7 centre (-46.295, 31.843) radius 1.5 projected
  circle A8 centre (46.295, 31.843) radius 1.5 projected
  circle A9 centre (-40.8, 65.3628) radius 1.5 projected
  circle A10 centre (38.1278, 75.3915) radius 3 projected
  circle A11 centre (-38.1278, 75.3915) radius 3 projected
  circle A12 centre (-7.5, 17.0442) radius 1.75 projected
  circle A13 centre (7.5, 17.0442) radius 1.75 projected
  line L0 (50, 85.2732) -> (-50, 85.2732) projected
  line L1 (-50, 26.1442) -> (-50, 85.2732) projected
  line L2 (-15, 26.1442) -> (-50, 26.1442) projected
  line L3 (-15, 8.0442) -> (-15, 26.1442) projected
  line L4 (-15, 8.0442) -> (15, 8.0442) projected
  line L5 (15, 26.1442) -> (15, 8.0442) projected
  line L6 (50, 26.1442) -> (15, 26.1442) projected
  line L7 (50, 85.2732) -> (50, 26.1442) projected
  point P0 (0, 0)
extrude "Extrusion16" add sketch "Sketch14" against normal blind 3 contours A10 | A11
sketch "Sketch15" plane through (0, 0, 8.5) normal (0, 0, 1) x (1, 0, 0)
  line L0 (-38.65, 77.1516) -> (-38.65, 73.7516)
  line L1 (-38.65, 73.7516) -> (-35.95, 73.7516)
  line L2 (38.65, 73.7516) -> (38.65, 76.8016)
  line L3 (35.95, 73.7516) -> (38.65, 73.7516)
  line L4 (-38.65, 73.7516) -> (-35.95, 73.7516)
  line L5 (-35.95, 73.7516) -> (-35.95, 77.1516)
  line L6 (-35.95, 77.1516) -> (-38.65, 77.1516)
  line L7 (-38.65, 77.1516) -> (-38.65, 73.7516)
  line L8 (38.65, 73.7516) -> (35.95, 73.7516)
  line L9 (35.95, 73.7516) -> (35.95, 77.1516)
  line L10 (35.95, 77.1516) -> (38.65, 77.1516)
  line L11 (38.65, 77.1516) -> (38.65, 73.7516)
  circle A0 centre (-7.5, 23.5442) radius 1.5 projected
  circle A1 centre (7.5, 23.5442) radius 1.5 projected
  circle A2 centre (28, 67.3942) radius 1.5 projected
  circle A3 centre (-28, 33.0442) radius 1.5 projected
  circle A4 centre (28, 33.0442) radius 1.5 projected
  circle A5 centre (-28, 67.3942) radius 1.5 projected
  circle A6 centre (40.8, 65.3628) radius 1.5 projected
  circle A7 centre (-46.295, 31.843) radius 1.5 projected
  circle A8 centre (46.295, 31.843) radius 1.5 projected
  circle A9 centre (-40.8, 65.3628) radius 1.5 projected
  circle A10 centre (-7.5, 17.0442) radius 1.75 projected
  circle A11 centre (7.5, 17.0442) radius 1.75 projected
  line L12 (50, 85.2732) -> (-50, 85.2732) projected
  line L13 (-50, 26.1442) -> (-50, 85.2732) projected
  line L14 (-15, 26.1442) -> (-50, 26.1442) projected
  line L15 (-15, 8.0442) -> (-15, 26.1442) projected
  line L16 (-15, 8.0442) -> (15, 8.0442) projected
  line L17 (15, 26.1442) -> (15, 8.0442) projected
  line L18 (50, 26.1442) -> (15, 26.1442) projected
  line L19 (50, 85.2732) -> (50, 26.1442) projected
  line L20 (50, 85.2732) -> (-50, 85.2732) projected
  line L21 (0, 85.2732) -> (0, 80.387)
  circle A12 centre (-37.3, 75.4516) radius 3.5
  circle A13 centre (37.3, 75.4516) radius 3.5
  point P0 (0, 0)
  dimension "d58" = 7
extrude "Extrusion17" cut sketch "Sketch15" against normal blind 3 contours L6 L5 L1 L0 | L3 L9 L10 L11 L2 | A12 | A13
ref_plane "Work Plane2" through (-50, 87.7758, 10.6) normal (0, -0.6428, 0.766) x (0, 0.766, 0.6428)
sketch "Sketch16" plane through (-50, 87.7758, 10.6) normal (0, -0.6428, 0.766) x (0, 0.766, 0.6428)
  circle A0 centre (-11.9809, -3) radius 1.5
  circle A1 centre (-12.2541, -96.9087) radius 1.5
  point P0 (-74.0537, -50)
extrude "Extrusion18" cut sketch "Sketch16" along normal through all
sketch "Sketch17" plane through (0, 0, 8.5) normal (0, 0, 1) x (1, 0, 0)
  line L0 (50, 85.2732) -> (50, 26.1442) projected
  line L1 (50, 70.5098) -> (43.7281, 70.5098)
  line L2 (43.7281, 70.5098) -> (43.7281, 77.3722)
  line L3 (43.7281, 77.3722) -> (50, 77.3722)
  line L4 (50, 77.3722) -> (50, 70.5098)
  line L5 (50, 85.2732) -> (-50, 85.2732) projected
  line L6 (0, 85.2732) -> (0, 70.5098)
  line L7 (-50, 70.5098) -> (-43.7281, 70.5098)
  line L8 (-43.7281, 70.5098) -> (-43.7281, 77.3722)
  line L9 (-43.7281, 77.3722) -> (-50, 77.3722)
  line L10 (-50, 26.1442) -> (-50, 85.2732) projected
  line L11 (-50, 85.2732) -> (-43, 85.2732)
  line L12 (-43, 85.2732) -> (-43, 69.2732)
  line L13 (-43, 69.2732) -> (-50, 69.2732)
  line L14 (-50, 69.2732) -> (-50, 85.2732)
  line L15 (43, 85.2732) -> (43, 69.2732)
  line L16 (43, 69.2732) -> (50, 69.2732)
  point P0 (0, 0)
  dimension "d63" = 7
  dimension "d64" = 16
extrude "Extrusion19" cut sketch "Sketch17" against normal blind 10
properties part number "blacha_stal_3mm" material "Steel, Alloy"
